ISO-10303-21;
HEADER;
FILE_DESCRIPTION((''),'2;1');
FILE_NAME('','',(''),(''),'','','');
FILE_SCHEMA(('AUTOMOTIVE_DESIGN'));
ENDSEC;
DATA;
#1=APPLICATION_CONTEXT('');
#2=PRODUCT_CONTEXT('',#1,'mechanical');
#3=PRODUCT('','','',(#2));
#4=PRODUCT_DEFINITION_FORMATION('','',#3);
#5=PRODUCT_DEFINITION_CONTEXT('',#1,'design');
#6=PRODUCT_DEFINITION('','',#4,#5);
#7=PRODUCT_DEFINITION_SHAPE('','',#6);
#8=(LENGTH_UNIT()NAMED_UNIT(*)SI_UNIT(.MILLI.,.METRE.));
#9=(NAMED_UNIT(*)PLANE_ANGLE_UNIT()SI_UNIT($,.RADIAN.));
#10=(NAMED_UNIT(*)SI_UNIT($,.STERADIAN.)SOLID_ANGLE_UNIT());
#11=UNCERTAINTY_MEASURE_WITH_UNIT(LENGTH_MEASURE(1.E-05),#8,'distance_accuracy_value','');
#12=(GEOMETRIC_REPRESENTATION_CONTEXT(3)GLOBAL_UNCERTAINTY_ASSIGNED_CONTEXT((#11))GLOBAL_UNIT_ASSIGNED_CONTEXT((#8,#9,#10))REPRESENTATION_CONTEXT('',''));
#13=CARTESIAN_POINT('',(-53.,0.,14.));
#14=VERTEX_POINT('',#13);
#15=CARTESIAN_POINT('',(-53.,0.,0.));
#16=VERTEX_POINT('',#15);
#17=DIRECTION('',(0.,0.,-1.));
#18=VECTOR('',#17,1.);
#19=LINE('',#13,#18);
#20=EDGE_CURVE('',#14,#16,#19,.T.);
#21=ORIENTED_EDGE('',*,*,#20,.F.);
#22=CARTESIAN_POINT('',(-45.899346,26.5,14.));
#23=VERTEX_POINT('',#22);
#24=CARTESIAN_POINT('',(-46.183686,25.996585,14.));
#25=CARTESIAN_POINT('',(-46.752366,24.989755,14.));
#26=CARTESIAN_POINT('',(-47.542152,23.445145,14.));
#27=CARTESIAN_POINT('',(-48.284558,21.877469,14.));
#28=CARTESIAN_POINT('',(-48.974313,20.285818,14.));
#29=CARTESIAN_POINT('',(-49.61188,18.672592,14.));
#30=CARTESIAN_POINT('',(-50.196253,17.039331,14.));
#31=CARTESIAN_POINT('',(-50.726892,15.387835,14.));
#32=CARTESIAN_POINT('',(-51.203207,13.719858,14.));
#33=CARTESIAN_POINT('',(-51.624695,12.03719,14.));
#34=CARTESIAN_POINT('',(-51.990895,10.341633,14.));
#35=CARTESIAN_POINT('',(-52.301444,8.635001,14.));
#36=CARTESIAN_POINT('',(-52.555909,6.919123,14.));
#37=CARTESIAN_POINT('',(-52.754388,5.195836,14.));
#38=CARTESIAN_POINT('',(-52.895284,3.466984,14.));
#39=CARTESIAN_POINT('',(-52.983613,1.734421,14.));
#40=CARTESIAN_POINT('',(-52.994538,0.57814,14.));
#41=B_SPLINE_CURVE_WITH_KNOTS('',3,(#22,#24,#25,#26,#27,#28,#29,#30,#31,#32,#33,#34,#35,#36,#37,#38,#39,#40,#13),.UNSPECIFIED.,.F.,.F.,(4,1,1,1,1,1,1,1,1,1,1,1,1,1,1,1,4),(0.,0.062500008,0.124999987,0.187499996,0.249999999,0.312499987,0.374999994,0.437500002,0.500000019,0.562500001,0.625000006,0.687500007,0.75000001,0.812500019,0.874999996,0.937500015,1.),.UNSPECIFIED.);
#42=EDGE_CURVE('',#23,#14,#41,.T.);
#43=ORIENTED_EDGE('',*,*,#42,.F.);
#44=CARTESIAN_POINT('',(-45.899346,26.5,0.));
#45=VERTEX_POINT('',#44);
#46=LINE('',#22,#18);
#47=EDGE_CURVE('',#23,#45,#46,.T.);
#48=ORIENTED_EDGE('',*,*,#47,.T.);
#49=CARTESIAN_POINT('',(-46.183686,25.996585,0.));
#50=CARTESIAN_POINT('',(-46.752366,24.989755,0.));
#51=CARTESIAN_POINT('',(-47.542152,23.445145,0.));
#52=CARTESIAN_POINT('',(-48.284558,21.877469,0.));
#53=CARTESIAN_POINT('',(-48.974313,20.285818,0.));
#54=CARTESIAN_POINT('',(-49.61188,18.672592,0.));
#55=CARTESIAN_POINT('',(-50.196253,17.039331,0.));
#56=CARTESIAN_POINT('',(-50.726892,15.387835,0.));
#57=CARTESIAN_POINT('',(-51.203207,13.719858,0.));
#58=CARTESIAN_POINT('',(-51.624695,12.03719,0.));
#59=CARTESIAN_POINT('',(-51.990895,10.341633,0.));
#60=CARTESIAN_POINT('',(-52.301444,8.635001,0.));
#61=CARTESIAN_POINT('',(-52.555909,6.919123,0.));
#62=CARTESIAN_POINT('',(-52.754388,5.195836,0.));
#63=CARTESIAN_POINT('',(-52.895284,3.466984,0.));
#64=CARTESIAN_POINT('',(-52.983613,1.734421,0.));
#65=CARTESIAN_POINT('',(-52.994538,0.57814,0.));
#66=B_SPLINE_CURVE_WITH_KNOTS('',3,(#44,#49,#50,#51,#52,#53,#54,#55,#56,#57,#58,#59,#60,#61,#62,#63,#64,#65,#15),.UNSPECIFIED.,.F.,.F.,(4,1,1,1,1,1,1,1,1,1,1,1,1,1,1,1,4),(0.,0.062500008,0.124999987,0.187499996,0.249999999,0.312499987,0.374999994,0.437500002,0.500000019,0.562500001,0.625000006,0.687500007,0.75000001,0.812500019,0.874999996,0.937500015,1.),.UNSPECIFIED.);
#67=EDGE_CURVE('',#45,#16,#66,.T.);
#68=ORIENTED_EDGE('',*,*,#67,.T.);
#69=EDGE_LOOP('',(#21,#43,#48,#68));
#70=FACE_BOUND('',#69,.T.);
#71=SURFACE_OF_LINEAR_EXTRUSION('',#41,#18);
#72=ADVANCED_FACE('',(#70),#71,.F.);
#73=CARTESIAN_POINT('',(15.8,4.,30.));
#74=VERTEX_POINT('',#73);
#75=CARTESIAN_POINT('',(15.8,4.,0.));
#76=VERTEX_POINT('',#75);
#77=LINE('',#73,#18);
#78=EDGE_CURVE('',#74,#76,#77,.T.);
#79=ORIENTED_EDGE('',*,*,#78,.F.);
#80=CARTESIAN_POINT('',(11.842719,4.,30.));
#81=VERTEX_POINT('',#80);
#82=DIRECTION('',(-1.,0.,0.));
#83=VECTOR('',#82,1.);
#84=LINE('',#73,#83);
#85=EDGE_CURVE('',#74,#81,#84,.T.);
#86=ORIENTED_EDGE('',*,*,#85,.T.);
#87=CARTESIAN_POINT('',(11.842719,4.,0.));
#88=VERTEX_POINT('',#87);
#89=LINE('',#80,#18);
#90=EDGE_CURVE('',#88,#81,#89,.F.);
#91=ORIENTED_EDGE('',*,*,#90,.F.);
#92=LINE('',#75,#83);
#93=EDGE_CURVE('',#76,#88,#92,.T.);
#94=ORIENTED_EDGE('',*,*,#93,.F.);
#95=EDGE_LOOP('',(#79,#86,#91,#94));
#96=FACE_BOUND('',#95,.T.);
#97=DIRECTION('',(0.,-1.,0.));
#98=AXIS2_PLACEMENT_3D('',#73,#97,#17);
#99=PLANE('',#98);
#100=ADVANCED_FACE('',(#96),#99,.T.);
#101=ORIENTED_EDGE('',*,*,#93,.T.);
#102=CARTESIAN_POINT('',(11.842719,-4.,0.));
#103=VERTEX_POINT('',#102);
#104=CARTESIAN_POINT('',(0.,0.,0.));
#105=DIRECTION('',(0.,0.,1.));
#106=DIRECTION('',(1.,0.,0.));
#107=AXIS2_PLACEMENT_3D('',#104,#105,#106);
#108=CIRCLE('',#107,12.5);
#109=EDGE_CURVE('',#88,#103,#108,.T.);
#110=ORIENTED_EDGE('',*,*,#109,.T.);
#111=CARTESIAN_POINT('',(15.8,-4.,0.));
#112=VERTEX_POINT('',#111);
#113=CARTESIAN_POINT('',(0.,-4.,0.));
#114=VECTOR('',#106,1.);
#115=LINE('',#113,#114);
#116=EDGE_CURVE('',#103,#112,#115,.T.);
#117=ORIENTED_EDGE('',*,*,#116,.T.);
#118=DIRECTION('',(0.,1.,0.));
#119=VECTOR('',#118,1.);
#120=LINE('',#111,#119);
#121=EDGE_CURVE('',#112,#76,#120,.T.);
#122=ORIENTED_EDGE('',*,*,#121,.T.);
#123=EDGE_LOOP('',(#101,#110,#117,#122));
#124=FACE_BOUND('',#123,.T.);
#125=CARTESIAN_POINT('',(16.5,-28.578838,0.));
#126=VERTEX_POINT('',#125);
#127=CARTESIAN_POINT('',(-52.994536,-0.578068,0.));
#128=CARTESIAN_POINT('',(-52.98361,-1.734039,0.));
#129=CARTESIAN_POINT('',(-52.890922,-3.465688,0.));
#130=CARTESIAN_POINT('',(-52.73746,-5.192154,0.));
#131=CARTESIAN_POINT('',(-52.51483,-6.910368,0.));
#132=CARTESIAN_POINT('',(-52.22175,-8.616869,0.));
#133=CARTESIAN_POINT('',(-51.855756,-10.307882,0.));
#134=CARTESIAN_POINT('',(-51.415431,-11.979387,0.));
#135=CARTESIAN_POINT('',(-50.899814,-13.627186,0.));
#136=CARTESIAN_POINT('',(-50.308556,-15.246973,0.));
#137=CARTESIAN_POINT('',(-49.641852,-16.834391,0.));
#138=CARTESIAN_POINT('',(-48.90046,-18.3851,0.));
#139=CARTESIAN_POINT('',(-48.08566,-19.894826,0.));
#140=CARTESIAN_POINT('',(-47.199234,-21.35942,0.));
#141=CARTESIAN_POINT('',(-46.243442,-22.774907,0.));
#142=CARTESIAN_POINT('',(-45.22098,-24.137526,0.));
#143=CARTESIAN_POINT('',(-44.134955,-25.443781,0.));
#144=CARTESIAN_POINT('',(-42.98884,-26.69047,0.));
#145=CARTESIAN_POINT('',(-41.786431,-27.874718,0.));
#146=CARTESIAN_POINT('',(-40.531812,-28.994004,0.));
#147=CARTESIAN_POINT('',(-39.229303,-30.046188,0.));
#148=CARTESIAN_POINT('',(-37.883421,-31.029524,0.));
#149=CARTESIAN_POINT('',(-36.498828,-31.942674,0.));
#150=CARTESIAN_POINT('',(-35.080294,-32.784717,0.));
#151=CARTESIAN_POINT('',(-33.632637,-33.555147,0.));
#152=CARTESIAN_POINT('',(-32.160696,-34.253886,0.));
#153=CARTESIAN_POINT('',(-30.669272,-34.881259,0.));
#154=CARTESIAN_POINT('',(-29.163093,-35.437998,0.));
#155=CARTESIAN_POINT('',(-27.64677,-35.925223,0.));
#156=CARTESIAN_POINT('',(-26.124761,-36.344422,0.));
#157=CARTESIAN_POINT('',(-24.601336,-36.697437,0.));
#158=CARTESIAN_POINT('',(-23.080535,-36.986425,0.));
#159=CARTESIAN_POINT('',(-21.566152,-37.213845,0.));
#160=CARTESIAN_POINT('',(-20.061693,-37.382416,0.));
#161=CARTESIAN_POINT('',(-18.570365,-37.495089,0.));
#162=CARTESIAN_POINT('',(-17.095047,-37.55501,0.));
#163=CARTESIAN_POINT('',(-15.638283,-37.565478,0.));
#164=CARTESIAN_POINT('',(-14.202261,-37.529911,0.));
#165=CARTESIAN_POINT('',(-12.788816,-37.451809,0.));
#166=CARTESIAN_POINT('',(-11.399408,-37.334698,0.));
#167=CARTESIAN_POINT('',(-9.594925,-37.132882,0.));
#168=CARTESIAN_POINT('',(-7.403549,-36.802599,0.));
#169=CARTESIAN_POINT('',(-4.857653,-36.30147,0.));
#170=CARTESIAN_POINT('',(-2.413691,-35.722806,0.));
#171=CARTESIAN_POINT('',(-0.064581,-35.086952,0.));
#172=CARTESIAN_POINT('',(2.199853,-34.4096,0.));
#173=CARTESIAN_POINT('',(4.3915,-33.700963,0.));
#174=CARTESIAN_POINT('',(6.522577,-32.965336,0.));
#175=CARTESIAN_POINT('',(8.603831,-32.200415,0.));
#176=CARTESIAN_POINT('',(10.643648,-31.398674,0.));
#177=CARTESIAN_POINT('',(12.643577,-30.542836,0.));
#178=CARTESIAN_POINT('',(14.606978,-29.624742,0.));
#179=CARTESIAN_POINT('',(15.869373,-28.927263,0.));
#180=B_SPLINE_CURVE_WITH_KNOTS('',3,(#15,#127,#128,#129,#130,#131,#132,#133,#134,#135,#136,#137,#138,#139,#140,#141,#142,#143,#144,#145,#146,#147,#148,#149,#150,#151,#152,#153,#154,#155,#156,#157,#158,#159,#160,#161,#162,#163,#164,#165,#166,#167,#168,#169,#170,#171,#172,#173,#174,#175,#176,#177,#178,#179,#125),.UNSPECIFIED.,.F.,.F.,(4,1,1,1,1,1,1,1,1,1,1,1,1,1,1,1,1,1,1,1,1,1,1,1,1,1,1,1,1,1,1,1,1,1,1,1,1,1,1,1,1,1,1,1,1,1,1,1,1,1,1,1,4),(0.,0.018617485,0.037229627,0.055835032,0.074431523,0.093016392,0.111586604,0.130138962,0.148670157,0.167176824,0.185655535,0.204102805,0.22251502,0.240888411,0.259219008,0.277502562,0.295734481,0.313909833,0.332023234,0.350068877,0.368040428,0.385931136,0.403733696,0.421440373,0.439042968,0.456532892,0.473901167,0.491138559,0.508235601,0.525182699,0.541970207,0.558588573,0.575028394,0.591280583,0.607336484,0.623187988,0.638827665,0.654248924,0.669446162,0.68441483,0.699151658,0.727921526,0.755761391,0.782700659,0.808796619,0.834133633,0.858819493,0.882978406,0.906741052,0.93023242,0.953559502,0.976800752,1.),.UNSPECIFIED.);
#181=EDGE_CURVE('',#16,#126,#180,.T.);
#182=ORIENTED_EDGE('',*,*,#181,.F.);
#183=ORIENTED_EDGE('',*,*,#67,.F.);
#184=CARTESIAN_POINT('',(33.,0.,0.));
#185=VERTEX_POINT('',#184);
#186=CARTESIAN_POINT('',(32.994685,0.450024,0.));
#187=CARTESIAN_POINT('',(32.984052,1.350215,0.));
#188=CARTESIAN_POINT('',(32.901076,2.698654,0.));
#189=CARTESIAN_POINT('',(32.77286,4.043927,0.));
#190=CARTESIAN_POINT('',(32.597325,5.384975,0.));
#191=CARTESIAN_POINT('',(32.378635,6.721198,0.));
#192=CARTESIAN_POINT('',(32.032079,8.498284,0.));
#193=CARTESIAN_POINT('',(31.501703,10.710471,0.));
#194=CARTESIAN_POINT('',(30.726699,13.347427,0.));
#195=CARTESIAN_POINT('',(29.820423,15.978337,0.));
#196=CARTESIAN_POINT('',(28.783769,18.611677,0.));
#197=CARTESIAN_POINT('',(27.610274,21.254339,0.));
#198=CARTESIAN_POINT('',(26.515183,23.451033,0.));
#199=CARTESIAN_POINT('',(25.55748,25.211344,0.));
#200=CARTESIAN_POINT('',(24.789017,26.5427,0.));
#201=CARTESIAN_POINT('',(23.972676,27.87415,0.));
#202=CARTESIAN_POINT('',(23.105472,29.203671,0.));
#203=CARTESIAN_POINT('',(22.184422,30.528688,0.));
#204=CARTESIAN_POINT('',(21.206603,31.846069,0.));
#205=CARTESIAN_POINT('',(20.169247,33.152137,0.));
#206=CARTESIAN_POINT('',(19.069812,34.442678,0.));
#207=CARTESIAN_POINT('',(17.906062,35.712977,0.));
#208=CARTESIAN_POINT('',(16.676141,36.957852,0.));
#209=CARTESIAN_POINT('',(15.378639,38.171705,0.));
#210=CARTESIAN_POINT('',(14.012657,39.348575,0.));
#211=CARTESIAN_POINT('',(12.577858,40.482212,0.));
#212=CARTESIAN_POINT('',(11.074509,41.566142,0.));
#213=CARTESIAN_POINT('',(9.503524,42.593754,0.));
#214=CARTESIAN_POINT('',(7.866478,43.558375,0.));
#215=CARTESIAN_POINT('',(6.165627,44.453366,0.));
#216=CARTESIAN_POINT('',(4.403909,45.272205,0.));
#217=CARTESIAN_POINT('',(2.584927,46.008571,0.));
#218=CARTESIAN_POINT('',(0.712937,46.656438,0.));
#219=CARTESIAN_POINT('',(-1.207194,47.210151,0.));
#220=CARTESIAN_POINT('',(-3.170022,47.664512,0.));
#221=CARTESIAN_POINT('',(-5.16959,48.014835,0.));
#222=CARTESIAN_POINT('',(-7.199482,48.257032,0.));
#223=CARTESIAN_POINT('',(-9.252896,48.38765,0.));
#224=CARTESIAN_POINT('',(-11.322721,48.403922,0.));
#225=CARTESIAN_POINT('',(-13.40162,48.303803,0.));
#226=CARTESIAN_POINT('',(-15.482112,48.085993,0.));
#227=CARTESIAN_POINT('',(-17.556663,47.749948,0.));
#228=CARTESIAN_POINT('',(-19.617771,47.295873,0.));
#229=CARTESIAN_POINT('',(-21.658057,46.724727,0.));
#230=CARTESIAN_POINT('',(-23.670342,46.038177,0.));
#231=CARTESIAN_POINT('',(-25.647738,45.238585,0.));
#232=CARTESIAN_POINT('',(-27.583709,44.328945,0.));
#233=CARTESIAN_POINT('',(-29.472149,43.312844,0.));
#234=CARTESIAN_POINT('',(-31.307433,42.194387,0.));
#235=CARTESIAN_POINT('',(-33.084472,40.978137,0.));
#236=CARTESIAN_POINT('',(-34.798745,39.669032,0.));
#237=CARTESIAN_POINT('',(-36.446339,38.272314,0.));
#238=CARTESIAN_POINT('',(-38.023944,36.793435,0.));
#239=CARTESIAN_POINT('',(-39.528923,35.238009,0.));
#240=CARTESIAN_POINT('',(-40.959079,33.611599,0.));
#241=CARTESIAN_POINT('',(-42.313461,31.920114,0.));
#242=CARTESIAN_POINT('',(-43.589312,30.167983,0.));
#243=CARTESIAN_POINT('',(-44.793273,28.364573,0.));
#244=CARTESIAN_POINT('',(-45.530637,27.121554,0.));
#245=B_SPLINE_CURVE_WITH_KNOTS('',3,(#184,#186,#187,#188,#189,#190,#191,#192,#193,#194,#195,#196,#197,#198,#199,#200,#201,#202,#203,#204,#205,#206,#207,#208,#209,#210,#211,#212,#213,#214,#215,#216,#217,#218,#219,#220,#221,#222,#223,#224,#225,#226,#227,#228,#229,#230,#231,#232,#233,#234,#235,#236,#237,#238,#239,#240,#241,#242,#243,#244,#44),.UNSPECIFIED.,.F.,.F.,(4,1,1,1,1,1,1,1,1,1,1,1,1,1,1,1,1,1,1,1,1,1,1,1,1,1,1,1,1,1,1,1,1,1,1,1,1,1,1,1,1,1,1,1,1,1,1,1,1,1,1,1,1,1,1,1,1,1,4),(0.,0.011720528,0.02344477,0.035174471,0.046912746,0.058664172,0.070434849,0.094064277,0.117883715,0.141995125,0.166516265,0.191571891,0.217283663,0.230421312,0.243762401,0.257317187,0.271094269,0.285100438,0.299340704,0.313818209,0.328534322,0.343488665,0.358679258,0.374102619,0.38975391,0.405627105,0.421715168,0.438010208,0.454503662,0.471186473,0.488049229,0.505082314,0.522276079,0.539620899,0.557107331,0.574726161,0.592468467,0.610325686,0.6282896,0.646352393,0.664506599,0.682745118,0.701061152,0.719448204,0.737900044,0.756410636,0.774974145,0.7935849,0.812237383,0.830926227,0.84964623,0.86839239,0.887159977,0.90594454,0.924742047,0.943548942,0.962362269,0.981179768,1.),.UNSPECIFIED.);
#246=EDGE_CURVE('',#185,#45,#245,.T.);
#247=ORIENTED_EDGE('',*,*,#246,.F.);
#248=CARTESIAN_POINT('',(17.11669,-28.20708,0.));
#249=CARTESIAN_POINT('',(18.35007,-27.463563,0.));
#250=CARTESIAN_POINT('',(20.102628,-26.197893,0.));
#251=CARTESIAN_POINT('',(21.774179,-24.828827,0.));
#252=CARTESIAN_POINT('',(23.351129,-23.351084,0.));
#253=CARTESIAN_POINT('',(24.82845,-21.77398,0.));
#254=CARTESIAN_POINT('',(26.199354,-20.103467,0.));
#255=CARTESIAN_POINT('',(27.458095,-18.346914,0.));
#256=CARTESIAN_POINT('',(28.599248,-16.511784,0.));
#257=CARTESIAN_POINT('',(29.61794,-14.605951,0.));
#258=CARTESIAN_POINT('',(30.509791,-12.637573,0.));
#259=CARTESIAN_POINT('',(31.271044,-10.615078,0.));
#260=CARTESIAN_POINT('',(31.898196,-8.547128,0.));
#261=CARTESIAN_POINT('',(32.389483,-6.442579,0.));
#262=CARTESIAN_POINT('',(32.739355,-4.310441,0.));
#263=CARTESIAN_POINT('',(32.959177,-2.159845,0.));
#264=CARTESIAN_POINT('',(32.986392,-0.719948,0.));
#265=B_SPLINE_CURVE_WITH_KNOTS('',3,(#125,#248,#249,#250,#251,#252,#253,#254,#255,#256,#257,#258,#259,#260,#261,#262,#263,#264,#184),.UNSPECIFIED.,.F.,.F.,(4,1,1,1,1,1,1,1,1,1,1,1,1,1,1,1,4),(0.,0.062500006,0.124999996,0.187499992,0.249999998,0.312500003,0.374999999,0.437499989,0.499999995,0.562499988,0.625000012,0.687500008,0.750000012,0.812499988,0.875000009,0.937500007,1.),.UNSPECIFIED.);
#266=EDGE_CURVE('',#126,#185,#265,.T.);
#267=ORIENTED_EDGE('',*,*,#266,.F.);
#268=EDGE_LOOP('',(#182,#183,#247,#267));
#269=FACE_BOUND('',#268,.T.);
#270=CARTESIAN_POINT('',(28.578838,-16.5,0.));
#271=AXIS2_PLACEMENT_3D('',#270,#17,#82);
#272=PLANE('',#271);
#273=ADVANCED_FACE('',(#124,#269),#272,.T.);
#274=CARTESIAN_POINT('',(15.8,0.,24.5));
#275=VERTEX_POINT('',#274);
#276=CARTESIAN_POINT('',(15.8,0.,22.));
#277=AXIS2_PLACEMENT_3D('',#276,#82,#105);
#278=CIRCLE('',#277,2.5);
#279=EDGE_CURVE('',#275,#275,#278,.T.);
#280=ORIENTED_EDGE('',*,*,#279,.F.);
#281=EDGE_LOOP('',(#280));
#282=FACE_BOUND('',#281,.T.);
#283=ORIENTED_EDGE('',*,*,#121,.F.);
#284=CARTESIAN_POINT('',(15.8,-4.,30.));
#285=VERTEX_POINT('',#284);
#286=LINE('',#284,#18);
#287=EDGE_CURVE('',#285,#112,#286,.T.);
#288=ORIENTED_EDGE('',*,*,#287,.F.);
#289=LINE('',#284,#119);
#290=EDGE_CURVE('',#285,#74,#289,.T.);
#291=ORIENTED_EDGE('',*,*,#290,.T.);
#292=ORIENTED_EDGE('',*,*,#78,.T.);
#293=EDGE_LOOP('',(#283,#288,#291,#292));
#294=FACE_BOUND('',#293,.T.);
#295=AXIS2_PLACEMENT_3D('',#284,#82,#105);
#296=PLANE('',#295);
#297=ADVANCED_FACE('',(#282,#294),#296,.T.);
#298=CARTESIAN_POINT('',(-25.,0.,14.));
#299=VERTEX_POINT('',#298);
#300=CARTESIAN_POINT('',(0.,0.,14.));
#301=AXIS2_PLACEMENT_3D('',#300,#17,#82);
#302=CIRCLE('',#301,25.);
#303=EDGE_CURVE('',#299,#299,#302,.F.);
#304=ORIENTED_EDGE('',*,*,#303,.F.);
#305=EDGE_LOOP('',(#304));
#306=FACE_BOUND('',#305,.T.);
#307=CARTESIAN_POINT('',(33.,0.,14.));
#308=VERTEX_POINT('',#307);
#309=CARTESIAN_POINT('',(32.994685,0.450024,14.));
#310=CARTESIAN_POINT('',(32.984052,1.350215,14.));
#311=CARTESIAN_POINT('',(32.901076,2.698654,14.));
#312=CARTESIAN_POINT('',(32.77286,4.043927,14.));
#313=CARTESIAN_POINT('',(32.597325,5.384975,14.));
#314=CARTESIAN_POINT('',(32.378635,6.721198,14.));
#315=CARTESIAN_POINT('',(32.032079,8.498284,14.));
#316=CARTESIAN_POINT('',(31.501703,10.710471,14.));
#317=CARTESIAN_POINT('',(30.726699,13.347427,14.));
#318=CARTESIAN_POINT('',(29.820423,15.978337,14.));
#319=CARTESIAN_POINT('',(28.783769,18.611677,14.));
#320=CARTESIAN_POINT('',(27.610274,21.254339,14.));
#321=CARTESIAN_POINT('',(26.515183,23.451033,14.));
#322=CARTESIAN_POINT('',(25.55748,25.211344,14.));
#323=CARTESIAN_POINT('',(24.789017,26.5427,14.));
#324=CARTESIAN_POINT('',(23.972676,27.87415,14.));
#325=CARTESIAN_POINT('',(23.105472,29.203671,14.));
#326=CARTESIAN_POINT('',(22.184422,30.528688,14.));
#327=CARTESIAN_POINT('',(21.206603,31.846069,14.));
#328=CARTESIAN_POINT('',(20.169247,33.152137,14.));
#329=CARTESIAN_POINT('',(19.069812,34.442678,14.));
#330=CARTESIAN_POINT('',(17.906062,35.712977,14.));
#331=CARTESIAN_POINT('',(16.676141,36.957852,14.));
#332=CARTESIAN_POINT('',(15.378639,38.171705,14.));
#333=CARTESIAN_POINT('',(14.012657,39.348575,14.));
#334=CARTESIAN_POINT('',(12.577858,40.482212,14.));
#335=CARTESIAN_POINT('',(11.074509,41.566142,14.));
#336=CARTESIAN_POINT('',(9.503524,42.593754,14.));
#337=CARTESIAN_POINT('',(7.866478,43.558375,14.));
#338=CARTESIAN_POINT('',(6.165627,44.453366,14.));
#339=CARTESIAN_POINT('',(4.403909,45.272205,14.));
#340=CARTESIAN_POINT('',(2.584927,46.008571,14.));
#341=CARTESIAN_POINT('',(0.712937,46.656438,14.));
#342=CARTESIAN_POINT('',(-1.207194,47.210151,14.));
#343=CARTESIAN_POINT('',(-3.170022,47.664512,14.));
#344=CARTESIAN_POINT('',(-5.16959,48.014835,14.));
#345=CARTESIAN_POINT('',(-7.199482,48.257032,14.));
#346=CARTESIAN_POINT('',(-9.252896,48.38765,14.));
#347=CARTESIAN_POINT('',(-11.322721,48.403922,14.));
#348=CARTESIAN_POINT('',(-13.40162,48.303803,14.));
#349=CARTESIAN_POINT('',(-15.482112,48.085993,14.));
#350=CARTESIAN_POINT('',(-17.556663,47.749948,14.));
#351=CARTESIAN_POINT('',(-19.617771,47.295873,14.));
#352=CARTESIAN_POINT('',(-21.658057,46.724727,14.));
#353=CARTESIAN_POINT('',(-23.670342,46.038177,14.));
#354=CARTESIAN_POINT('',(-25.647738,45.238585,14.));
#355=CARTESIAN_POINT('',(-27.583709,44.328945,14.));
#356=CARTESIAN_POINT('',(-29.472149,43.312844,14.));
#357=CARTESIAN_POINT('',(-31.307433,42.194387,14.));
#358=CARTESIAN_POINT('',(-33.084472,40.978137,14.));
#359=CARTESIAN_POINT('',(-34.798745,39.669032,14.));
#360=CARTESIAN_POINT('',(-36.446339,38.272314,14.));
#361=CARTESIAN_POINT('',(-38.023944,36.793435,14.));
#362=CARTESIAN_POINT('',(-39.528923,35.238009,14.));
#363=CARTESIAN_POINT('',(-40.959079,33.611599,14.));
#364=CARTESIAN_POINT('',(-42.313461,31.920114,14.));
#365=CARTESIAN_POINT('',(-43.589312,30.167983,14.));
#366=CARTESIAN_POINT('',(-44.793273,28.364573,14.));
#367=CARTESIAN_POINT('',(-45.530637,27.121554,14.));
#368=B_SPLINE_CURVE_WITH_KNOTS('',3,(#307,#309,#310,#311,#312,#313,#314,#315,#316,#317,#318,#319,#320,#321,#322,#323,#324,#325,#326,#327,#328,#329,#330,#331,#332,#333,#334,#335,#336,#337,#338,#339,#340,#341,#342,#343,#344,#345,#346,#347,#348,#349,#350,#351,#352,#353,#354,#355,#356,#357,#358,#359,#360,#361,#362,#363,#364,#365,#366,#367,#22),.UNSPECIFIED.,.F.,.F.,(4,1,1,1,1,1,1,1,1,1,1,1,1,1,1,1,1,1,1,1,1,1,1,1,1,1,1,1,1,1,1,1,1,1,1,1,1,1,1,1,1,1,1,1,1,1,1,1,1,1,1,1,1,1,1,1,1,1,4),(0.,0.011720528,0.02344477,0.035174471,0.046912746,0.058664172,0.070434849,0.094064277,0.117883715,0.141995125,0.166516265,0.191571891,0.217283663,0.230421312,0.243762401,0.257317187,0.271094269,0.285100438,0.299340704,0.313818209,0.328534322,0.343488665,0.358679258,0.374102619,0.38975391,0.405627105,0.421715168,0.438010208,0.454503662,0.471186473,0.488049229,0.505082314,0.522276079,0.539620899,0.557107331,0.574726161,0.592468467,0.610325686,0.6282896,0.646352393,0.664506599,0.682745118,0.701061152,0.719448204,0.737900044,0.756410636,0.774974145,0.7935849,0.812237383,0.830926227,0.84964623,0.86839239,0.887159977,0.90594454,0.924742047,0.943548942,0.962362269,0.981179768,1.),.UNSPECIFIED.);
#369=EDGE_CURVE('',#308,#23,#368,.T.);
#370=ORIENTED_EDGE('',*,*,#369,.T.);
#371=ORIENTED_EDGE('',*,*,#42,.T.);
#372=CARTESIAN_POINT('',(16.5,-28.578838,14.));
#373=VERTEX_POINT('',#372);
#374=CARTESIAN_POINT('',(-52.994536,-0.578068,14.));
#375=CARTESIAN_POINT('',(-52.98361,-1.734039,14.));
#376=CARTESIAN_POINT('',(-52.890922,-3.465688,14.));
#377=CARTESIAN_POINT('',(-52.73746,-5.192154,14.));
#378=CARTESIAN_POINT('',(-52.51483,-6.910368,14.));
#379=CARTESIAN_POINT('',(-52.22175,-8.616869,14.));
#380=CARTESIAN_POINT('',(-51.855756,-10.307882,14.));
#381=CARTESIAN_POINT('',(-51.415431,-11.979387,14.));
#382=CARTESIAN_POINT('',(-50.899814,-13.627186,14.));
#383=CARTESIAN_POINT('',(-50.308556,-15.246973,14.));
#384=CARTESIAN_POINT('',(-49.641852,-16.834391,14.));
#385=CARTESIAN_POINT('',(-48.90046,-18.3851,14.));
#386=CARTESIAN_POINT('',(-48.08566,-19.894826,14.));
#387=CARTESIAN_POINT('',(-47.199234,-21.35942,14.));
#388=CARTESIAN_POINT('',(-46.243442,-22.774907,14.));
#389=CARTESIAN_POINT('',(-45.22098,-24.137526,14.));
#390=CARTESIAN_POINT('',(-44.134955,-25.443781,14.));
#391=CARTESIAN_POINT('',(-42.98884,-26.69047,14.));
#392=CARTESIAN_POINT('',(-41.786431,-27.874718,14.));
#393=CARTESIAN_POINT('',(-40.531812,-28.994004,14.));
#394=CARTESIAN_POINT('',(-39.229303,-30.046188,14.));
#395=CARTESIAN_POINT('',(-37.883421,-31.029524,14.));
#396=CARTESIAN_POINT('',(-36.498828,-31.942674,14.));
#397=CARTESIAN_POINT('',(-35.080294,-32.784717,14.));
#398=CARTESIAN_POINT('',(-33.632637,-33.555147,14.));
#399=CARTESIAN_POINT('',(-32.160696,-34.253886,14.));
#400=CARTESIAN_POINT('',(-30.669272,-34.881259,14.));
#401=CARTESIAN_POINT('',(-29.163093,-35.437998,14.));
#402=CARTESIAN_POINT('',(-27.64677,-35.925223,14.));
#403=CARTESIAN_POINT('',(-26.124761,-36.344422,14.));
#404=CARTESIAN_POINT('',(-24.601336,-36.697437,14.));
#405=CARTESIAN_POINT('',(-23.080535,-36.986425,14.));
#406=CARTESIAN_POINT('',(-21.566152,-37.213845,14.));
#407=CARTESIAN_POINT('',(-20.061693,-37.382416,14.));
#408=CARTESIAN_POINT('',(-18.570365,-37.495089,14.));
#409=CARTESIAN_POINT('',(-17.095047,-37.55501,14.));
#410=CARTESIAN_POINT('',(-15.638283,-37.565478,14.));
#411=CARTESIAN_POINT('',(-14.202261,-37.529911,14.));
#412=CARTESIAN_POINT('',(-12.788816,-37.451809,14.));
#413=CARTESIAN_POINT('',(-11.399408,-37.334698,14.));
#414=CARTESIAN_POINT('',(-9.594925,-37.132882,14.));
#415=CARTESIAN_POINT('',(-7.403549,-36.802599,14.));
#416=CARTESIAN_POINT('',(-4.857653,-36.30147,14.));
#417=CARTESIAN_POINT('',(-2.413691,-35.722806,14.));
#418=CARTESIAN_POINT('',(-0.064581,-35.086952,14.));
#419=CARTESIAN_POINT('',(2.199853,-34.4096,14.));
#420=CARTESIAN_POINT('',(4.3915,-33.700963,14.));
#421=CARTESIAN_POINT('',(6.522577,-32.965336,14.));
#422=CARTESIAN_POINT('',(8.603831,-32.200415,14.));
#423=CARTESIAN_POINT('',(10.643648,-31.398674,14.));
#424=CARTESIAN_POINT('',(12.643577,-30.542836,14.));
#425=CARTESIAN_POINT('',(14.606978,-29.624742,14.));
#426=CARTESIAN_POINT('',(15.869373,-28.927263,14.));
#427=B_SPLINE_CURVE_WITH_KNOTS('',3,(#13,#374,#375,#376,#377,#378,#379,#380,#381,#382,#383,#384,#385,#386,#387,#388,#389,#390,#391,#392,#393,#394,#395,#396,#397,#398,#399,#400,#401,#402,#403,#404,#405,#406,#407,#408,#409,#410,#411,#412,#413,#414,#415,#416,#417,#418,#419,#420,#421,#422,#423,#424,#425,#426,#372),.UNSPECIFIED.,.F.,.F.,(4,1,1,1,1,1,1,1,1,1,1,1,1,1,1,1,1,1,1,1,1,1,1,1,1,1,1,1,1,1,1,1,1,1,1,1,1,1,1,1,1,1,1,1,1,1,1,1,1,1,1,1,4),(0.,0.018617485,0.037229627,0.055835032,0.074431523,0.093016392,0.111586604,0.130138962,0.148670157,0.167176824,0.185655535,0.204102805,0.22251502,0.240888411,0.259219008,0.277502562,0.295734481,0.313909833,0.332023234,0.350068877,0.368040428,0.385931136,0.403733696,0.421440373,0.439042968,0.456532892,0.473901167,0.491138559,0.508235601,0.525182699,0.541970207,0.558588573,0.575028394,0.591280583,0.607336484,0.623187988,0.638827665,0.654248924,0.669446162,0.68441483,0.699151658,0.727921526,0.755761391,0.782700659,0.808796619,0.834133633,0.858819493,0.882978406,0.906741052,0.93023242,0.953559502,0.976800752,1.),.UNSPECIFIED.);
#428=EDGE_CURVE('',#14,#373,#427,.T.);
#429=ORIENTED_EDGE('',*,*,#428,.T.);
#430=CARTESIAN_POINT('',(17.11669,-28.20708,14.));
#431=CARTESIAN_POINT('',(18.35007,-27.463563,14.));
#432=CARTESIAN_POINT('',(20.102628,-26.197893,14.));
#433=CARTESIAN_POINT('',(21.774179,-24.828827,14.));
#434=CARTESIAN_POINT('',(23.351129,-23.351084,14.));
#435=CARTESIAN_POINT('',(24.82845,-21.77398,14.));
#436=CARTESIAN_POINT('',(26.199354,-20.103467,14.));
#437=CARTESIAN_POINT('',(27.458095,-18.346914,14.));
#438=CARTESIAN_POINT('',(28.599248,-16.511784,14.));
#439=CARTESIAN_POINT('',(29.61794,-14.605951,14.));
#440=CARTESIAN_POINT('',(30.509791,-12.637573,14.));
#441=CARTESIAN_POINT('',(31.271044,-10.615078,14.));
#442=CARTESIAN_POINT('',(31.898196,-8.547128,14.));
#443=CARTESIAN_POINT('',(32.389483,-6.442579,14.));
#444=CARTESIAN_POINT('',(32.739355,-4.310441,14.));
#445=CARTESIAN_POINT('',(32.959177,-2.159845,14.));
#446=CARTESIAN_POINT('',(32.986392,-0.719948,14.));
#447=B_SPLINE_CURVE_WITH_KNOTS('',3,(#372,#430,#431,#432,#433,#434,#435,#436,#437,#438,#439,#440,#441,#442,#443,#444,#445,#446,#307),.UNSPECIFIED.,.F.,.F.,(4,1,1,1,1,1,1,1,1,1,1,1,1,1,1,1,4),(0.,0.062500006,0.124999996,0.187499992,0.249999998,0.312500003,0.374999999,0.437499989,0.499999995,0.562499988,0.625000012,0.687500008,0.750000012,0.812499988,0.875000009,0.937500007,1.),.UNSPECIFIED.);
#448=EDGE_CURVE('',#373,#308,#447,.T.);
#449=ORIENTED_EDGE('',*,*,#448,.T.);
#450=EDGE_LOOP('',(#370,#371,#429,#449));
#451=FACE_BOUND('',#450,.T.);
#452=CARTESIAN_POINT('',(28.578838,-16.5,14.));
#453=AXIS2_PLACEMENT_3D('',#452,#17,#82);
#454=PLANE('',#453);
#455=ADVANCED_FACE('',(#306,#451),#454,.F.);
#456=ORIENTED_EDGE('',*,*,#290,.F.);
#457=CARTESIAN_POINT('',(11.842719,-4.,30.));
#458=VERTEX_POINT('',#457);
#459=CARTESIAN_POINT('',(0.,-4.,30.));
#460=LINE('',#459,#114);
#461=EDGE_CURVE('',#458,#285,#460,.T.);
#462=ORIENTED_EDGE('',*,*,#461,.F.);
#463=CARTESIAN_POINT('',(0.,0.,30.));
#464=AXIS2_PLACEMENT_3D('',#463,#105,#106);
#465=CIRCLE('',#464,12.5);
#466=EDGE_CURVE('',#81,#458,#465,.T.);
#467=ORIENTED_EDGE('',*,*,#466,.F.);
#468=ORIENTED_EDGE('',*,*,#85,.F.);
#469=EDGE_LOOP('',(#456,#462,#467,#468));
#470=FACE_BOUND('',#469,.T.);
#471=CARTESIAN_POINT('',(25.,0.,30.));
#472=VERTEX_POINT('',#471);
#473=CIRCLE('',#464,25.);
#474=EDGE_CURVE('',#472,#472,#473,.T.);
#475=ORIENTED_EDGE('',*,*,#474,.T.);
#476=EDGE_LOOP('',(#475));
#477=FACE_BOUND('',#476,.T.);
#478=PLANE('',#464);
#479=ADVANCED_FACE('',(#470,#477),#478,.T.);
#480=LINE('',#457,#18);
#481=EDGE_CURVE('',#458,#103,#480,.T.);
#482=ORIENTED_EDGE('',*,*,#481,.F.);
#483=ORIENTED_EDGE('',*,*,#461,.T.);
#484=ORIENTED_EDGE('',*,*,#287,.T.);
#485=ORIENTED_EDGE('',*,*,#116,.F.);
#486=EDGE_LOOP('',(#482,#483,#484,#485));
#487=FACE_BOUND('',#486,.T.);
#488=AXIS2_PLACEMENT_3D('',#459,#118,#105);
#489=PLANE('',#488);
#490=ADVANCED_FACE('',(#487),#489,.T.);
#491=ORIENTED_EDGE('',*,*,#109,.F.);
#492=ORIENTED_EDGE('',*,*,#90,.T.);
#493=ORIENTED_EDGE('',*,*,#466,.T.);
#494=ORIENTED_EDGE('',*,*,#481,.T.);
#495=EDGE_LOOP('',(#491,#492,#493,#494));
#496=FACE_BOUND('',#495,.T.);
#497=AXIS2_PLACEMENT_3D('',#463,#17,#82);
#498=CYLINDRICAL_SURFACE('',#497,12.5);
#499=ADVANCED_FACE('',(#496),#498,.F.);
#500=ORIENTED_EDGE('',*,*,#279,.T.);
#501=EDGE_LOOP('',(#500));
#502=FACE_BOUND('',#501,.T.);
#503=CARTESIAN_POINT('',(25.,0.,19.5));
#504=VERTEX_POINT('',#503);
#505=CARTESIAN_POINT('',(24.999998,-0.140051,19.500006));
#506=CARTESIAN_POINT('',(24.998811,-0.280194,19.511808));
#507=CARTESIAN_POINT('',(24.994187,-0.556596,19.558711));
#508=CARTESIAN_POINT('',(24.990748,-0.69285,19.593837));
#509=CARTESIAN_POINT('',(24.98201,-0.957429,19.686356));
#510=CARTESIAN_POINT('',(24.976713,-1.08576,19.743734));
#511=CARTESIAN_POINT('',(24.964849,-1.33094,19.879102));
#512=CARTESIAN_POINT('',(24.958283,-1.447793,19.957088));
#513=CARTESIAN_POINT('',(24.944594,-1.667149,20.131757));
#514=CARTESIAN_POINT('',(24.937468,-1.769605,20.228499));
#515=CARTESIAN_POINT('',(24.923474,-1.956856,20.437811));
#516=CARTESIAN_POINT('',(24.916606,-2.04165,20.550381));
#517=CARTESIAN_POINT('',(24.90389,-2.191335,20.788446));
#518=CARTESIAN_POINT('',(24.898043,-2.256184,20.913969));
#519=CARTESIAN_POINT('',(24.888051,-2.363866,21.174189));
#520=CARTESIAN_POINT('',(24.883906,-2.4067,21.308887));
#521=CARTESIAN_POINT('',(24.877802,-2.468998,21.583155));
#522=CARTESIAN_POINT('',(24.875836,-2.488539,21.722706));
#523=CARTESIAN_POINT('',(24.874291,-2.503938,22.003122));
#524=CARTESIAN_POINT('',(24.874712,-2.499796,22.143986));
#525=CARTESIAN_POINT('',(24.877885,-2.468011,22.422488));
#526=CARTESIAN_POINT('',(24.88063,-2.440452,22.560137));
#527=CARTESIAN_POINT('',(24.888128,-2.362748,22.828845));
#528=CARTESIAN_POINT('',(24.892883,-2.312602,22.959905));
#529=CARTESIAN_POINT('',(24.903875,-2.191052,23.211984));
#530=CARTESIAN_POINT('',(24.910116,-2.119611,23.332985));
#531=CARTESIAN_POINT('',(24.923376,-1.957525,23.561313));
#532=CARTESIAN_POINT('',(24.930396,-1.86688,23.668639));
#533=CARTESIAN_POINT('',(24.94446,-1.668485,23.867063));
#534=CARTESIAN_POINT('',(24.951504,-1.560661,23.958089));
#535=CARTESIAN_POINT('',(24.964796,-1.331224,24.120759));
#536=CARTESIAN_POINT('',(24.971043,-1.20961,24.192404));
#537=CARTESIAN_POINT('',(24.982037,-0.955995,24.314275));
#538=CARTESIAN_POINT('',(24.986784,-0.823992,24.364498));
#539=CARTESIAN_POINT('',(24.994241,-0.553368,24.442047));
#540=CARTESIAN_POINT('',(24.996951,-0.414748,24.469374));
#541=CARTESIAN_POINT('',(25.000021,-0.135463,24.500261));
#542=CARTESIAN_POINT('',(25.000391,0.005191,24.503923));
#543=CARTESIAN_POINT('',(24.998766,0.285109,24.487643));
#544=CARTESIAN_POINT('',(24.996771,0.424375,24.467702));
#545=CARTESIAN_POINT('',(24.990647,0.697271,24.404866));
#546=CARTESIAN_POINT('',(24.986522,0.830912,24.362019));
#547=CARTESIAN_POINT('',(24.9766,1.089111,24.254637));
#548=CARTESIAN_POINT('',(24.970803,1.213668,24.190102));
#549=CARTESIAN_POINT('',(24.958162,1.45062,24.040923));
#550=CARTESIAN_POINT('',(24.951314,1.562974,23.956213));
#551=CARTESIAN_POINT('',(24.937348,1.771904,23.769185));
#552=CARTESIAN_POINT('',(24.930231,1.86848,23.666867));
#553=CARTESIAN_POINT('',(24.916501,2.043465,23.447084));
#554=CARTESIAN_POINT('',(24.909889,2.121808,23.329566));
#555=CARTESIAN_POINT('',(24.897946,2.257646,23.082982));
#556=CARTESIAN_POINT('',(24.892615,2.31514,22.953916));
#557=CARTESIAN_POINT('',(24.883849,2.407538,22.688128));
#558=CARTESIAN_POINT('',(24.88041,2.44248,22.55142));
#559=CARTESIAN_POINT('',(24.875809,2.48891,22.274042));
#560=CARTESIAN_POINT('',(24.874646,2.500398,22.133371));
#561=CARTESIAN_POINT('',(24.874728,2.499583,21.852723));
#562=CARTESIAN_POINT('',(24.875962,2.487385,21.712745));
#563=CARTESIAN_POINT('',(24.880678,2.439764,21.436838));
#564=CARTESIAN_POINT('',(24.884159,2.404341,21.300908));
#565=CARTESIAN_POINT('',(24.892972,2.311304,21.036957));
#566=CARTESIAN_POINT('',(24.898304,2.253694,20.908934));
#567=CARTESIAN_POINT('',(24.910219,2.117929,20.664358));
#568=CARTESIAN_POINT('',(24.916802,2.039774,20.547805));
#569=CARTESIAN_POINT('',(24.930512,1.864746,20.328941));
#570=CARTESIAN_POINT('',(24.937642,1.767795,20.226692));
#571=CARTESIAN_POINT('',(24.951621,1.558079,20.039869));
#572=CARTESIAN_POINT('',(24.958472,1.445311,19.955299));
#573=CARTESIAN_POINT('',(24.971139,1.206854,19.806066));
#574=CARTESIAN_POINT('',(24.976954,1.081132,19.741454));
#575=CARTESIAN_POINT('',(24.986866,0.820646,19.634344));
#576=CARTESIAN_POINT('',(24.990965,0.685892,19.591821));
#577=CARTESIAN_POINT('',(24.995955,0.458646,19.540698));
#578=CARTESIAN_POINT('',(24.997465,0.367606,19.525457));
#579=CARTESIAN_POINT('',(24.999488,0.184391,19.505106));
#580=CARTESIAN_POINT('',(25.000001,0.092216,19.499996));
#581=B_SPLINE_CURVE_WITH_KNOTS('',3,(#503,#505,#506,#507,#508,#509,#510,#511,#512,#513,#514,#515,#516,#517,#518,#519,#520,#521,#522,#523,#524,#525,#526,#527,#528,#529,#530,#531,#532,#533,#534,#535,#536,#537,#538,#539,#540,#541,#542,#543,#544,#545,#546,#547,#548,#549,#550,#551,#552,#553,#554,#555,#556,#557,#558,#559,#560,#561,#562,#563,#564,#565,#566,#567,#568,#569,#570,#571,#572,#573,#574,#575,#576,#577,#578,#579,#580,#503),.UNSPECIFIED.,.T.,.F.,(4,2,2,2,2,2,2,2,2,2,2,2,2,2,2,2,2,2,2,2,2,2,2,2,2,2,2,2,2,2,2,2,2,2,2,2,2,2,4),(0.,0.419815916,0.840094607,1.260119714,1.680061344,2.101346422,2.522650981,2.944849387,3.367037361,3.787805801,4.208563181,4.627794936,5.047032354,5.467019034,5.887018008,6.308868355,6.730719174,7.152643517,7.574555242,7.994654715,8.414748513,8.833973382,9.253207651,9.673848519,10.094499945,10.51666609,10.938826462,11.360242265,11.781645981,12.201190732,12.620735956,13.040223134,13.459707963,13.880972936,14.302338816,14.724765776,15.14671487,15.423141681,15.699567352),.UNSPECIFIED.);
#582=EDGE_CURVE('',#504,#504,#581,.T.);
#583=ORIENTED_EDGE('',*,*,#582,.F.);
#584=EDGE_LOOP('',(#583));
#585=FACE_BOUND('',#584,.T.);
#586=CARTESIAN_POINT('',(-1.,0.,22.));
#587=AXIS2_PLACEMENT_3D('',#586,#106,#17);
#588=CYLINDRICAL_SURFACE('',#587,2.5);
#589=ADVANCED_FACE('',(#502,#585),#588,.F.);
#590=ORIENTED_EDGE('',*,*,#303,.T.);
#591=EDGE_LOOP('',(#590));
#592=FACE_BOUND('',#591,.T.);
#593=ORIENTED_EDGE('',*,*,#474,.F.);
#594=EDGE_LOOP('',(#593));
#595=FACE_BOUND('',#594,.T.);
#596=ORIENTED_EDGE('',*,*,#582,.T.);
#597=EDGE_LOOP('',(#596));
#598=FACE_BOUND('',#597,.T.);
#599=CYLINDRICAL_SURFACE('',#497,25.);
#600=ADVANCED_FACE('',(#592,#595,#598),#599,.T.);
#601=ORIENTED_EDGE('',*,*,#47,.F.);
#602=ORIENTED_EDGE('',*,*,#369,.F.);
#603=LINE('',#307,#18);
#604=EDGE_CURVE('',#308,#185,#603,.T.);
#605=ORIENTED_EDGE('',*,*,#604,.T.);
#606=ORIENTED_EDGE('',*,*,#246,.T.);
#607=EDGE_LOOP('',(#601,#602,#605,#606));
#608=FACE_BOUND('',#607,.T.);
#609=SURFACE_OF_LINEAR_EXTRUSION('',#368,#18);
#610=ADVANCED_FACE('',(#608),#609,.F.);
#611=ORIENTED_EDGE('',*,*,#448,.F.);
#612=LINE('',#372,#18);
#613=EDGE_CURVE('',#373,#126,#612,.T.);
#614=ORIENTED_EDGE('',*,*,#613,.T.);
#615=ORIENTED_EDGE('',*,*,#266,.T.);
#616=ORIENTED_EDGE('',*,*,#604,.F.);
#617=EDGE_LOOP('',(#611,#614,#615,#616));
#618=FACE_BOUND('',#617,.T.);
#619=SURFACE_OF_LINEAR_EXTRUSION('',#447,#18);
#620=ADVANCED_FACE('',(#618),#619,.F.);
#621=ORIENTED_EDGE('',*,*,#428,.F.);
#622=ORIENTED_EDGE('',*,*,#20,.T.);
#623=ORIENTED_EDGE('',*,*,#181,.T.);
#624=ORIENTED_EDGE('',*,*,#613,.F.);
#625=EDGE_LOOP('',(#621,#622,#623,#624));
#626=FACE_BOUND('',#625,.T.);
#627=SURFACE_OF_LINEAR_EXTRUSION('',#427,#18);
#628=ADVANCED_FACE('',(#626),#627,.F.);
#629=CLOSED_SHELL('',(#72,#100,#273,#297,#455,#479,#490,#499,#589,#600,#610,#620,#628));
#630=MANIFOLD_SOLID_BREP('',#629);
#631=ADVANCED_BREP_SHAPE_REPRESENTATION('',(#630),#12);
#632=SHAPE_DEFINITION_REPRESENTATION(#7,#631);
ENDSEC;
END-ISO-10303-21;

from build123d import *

# Parameters (mm, degrees)
EXTRUDE_1_DEPTH     = 14
SKETCH_2_R          = 25
EXTRUDE_2_DEPTH     = 30
SKETCH_3_R          = 12.5
CUT_EXTRUDE_1_DEPTH = 78.786850529
SKETCH_4_W          = 15.8
SKETCH_4_H          = 8
CUT_EXTRUDE_2_DEPTH = 78.786850529
SWEEP_2_PROFILE_R   = 2.5


with BuildPart() as part:
    # 草图1 → 凸台-拉伸1 (new body)
    with BuildSketch(Plane.XY):
        with BuildLine():
            add(Edge.make_bspline(
                [(33, 0), (32.994684587, 0.450024215), (32.984052078, 1.350215217), (32.901076258, 2.698653645), (32.772860205, 4.043927251), (32.597324571, 5.384974816), (32.378634546, 6.721198171), (32.032078752, 8.498284254), (31.501703341, 10.710471336), (30.726699331, 13.347427223), (29.820422985, 15.978337375), (28.78376894, 18.611676644), (27.610273888, 21.254339279), (26.515182854, 23.45103287), (25.5574803, 25.211343802), (24.789016632, 26.54270045), (23.972675772, 27.874149931), (23.105472148, 29.203671357), (22.184421782, 30.528688408), (21.206602984, 31.846069432), (20.16924743, 33.152137052), (19.069811985, 34.442677822), (17.90606236, 35.712977232), (16.676140858, 36.957852112), (15.37863945, 38.17170453), (14.012657383, 39.348574759), (12.57785829, 40.48221221), (11.07450942, 41.566141858), (9.503524234, 42.593753741), (7.866477955, 43.558375054), (6.165627296, 44.453366408), (4.403908588, 45.272204934), (2.584926869, 46.008571066), (0.712936618, 46.656438122), (-1.207193797, 47.210150802), (-3.170021946, 47.66451179), (-5.169590122, 48.014834863), (-7.19948183, 48.257032362), (-9.252895705, 48.387650153), (-11.322721226, 48.403921527), (-13.401619953, 48.303802916), (-15.482112157, 48.085992666), (-17.556663385, 47.74994839), (-19.617771107, 47.295872816), (-21.658056561, 46.724726957), (-23.670342116, 46.038176688), (-25.647738102, 45.238585056), (-27.583709079, 44.328944976), (-29.472149374, 43.312844419), (-31.307433374, 42.194386964), (-33.084472119, 40.978136682), (-34.798745182, 39.669031546), (-36.446339426, 38.272314352), (-38.023943914, 36.793434836), (-39.528922958, 35.238009279), (-40.959078807, 33.611599403), (-42.313460643, 31.920114124), (-43.589311507, 30.167983471), (-44.793272704, 28.364572965), (-45.530637058, 27.121554401), (-45.899346, 26.5)],
                knots=[0, 0, 0, 0, 0.011720528, 0.02344477, 0.035174471, 0.046912746, 0.058664172, 0.070434849, 0.094064277, 0.117883715, 0.141995125, 0.166516265, 0.191571891, 0.217283663, 0.230421312, 0.243762401, 0.257317187, 0.271094269, 0.285100438, 0.299340704, 0.313818209, 0.328534322, 0.343488665, 0.358679258, 0.374102619, 0.38975391, 0.405627105, 0.421715168, 0.438010208, 0.454503662, 0.471186473, 0.488049229, 0.505082314, 0.522276079, 0.539620899, 0.557107331, 0.574726161, 0.592468467, 0.610325686, 0.6282896, 0.646352393, 0.664506599, 0.682745118, 0.701061152, 0.719448204, 0.737900044, 0.756410636, 0.774974145, 0.7935849, 0.812237383, 0.830926227, 0.84964623, 0.86839239, 0.887159977, 0.90594454, 0.924742047, 0.943548942, 0.962362269, 0.981179768, 1, 1, 1, 1], degree=3))
            add(Edge.make_bspline(
                [(-45.899346, 26.5), (-46.183686014, 25.99658476), (-46.752365912, 24.989754507), (-47.542151603, 23.44514535), (-48.284558357, 21.877468697), (-48.974312895, 20.285818041), (-49.611879734, 18.672591924), (-50.196252541, 17.039331265), (-50.726892215, 15.387834686), (-51.203206677, 13.719857757), (-51.62469458, 12.037190136), (-51.990895237, 10.341632673), (-52.301444487, 8.635001114), (-52.555908827, 6.919122788), (-52.754388224, 5.195835615), (-52.895284113, 3.466984365), (-52.98361346, 1.734420848), (-52.994537821, 0.578140181), (-53, 0)],
                knots=[0, 0, 0, 0, 0.062500008, 0.124999987, 0.187499996, 0.249999999, 0.312499987, 0.374999994, 0.437500002, 0.500000019, 0.562500001, 0.625000006, 0.687500007, 0.75000001, 0.812500019, 0.874999996, 0.937500015, 1, 1, 1, 1], degree=3))
            add(Edge.make_bspline(
                [(-53, 0), (-52.994536306, -0.578068365), (-52.983610487, -1.734039205), (-52.890921769, -3.465687653), (-52.737459804, -5.192153917), (-52.514830205, -6.910368406), (-52.221750153, -8.616869483), (-51.855756316, -10.30788244), (-51.415431279, -11.979386603), (-50.899814435, -13.627185589), (-50.308555585, -15.246972675), (-49.641851525, -16.834390924), (-48.90046009, -18.385099751), (-48.085659908, -19.894826006), (-47.199233749, -21.359419817), (-46.243441559, -22.77490659), (-45.220979977, -24.137526422), (-44.134954865, -25.443781463), (-42.988839739, -26.690470176), (-41.786431369, -27.874717783), (-40.531812023, -28.994003994), (-39.22930277, -30.046187837), (-37.883420895, -31.029524247), (-36.498828408, -31.94267376), (-35.08029367, -32.784716601), (-33.632637068, -33.55514713), (-32.160696249, -34.253885921), (-30.669272011, -34.881258756), (-29.163092884, -35.437998224), (-27.646770009, -35.925222878), (-26.124761473, -36.344421792), (-24.601335518, -36.69743659), (-23.080535449, -36.986424819), (-21.566151621, -37.21384479), (-20.06169318, -37.382416012), (-18.570364754, -37.495089115), (-17.09504745, -37.555010185), (-15.63828303, -37.565478254), (-14.202260945, -37.529911258), (-12.788815604, -37.451808758), (-11.399408098, -37.334697574), (-9.594924838, -37.132882108), (-7.403548822, -36.80259903), (-4.857653491, -36.301470095), (-2.413691345, -35.722805964), (-0.064581352, -35.086952206), (2.19985327, -34.409599534), (4.391499881, -33.700962662), (6.522577444, -32.965335838), (8.60383086, -32.200414937), (10.643647529, -31.398673827), (12.643577343, -30.542836156), (14.606977568, -29.624742426), (15.869373093, -28.927262542), (16.5, -28.578838)],
                knots=[0, 0, 0, 0, 0.018617485, 0.037229627, 0.055835032, 0.074431523, 0.093016392, 0.111586604, 0.130138962, 0.148670157, 0.167176824, 0.185655535, 0.204102805, 0.22251502, 0.240888411, 0.259219008, 0.277502562, 0.295734481, 0.313909833, 0.332023234, 0.350068877, 0.368040428, 0.385931136, 0.403733696, 0.421440373, 0.439042968, 0.456532892, 0.473901167, 0.491138559, 0.508235601, 0.525182699, 0.541970207, 0.558588573, 0.575028394, 0.591280583, 0.607336484, 0.623187988, 0.638827665, 0.654248924, 0.669446162, 0.68441483, 0.699151658, 0.727921526, 0.755761391, 0.782700659, 0.808796619, 0.834133633, 0.858819493, 0.882978406, 0.906741052, 0.93023242, 0.953559502, 0.976800752, 1, 1, 1, 1], degree=3))
            add(Edge.make_bspline(
                [(16.5, -28.578838), (17.116689929, -28.207079649), (18.350069625, -27.463563045), (20.10262845, -26.197892511), (21.774178875, -24.828826667), (23.35112871, -23.351084244), (24.828450291, -21.773980361), (26.19935355, -20.10346697), (27.458095264, -18.346914058), (28.599248007, -16.511783882), (29.617940435, -14.605950878), (30.509791163, -12.637572777), (31.27104422, -10.615077714), (31.898195971, -8.547128331), (32.389483458, -6.442578551), (32.739354772, -4.310440562), (32.959177295, -2.15984452), (32.986392432, -0.719948155), (33, 0)],
                knots=[0, 0, 0, 0, 0.062500006, 0.124999996, 0.187499992, 0.249999998, 0.312500003, 0.374999999, 0.437499989, 0.499999995, 0.562499988, 0.625000012, 0.687500008, 0.750000012, 0.812499988, 0.875000009, 0.937500007, 1, 1, 1, 1], degree=3))
        make_face()
    extrude(amount=EXTRUDE_1_DEPTH)

    # 草图2 → 凸台-拉伸2 (add)
    with BuildSketch(Plane.XY):
        with Locations(Location((0, 0, 0), (0, 0, 180))):
            Circle(SKETCH_2_R)
    extrude(amount=EXTRUDE_2_DEPTH)

    # 草图3 → 切除-拉伸1 (cut, through all)
    with BuildSketch(Plane.XY):
        Circle(SKETCH_3_R)
    extrude(amount=CUT_EXTRUDE_1_DEPTH, mode=Mode.SUBTRACT)

    # 草图4 → 切除-拉伸2 (cut, through all)
    with BuildSketch(Plane.XY):
        with Locations((7.9, 0)):
            Rectangle(SKETCH_4_W, SKETCH_4_H)
    extrude(amount=CUT_EXTRUDE_2_DEPTH, mode=Mode.SUBTRACT)

    # 切除-扫描2: sweep along a curve in space
    with BuildLine() as sweep_2_path:
        Line((-1, 0, 22), (26, 0, 22))
    # 切除-扫描2 profile (on start of the path) → 切除-扫描2 (sweep, cut)
    with BuildSketch(Plane(origin=(-1, 0, 22), x_dir=(0, 0, 1), z_dir=(1, 0, 0))):
        Circle(SWEEP_2_PROFILE_R)
    sweep(path=sweep_2_path.line, mode=Mode.SUBTRACT)


solid = part.part
